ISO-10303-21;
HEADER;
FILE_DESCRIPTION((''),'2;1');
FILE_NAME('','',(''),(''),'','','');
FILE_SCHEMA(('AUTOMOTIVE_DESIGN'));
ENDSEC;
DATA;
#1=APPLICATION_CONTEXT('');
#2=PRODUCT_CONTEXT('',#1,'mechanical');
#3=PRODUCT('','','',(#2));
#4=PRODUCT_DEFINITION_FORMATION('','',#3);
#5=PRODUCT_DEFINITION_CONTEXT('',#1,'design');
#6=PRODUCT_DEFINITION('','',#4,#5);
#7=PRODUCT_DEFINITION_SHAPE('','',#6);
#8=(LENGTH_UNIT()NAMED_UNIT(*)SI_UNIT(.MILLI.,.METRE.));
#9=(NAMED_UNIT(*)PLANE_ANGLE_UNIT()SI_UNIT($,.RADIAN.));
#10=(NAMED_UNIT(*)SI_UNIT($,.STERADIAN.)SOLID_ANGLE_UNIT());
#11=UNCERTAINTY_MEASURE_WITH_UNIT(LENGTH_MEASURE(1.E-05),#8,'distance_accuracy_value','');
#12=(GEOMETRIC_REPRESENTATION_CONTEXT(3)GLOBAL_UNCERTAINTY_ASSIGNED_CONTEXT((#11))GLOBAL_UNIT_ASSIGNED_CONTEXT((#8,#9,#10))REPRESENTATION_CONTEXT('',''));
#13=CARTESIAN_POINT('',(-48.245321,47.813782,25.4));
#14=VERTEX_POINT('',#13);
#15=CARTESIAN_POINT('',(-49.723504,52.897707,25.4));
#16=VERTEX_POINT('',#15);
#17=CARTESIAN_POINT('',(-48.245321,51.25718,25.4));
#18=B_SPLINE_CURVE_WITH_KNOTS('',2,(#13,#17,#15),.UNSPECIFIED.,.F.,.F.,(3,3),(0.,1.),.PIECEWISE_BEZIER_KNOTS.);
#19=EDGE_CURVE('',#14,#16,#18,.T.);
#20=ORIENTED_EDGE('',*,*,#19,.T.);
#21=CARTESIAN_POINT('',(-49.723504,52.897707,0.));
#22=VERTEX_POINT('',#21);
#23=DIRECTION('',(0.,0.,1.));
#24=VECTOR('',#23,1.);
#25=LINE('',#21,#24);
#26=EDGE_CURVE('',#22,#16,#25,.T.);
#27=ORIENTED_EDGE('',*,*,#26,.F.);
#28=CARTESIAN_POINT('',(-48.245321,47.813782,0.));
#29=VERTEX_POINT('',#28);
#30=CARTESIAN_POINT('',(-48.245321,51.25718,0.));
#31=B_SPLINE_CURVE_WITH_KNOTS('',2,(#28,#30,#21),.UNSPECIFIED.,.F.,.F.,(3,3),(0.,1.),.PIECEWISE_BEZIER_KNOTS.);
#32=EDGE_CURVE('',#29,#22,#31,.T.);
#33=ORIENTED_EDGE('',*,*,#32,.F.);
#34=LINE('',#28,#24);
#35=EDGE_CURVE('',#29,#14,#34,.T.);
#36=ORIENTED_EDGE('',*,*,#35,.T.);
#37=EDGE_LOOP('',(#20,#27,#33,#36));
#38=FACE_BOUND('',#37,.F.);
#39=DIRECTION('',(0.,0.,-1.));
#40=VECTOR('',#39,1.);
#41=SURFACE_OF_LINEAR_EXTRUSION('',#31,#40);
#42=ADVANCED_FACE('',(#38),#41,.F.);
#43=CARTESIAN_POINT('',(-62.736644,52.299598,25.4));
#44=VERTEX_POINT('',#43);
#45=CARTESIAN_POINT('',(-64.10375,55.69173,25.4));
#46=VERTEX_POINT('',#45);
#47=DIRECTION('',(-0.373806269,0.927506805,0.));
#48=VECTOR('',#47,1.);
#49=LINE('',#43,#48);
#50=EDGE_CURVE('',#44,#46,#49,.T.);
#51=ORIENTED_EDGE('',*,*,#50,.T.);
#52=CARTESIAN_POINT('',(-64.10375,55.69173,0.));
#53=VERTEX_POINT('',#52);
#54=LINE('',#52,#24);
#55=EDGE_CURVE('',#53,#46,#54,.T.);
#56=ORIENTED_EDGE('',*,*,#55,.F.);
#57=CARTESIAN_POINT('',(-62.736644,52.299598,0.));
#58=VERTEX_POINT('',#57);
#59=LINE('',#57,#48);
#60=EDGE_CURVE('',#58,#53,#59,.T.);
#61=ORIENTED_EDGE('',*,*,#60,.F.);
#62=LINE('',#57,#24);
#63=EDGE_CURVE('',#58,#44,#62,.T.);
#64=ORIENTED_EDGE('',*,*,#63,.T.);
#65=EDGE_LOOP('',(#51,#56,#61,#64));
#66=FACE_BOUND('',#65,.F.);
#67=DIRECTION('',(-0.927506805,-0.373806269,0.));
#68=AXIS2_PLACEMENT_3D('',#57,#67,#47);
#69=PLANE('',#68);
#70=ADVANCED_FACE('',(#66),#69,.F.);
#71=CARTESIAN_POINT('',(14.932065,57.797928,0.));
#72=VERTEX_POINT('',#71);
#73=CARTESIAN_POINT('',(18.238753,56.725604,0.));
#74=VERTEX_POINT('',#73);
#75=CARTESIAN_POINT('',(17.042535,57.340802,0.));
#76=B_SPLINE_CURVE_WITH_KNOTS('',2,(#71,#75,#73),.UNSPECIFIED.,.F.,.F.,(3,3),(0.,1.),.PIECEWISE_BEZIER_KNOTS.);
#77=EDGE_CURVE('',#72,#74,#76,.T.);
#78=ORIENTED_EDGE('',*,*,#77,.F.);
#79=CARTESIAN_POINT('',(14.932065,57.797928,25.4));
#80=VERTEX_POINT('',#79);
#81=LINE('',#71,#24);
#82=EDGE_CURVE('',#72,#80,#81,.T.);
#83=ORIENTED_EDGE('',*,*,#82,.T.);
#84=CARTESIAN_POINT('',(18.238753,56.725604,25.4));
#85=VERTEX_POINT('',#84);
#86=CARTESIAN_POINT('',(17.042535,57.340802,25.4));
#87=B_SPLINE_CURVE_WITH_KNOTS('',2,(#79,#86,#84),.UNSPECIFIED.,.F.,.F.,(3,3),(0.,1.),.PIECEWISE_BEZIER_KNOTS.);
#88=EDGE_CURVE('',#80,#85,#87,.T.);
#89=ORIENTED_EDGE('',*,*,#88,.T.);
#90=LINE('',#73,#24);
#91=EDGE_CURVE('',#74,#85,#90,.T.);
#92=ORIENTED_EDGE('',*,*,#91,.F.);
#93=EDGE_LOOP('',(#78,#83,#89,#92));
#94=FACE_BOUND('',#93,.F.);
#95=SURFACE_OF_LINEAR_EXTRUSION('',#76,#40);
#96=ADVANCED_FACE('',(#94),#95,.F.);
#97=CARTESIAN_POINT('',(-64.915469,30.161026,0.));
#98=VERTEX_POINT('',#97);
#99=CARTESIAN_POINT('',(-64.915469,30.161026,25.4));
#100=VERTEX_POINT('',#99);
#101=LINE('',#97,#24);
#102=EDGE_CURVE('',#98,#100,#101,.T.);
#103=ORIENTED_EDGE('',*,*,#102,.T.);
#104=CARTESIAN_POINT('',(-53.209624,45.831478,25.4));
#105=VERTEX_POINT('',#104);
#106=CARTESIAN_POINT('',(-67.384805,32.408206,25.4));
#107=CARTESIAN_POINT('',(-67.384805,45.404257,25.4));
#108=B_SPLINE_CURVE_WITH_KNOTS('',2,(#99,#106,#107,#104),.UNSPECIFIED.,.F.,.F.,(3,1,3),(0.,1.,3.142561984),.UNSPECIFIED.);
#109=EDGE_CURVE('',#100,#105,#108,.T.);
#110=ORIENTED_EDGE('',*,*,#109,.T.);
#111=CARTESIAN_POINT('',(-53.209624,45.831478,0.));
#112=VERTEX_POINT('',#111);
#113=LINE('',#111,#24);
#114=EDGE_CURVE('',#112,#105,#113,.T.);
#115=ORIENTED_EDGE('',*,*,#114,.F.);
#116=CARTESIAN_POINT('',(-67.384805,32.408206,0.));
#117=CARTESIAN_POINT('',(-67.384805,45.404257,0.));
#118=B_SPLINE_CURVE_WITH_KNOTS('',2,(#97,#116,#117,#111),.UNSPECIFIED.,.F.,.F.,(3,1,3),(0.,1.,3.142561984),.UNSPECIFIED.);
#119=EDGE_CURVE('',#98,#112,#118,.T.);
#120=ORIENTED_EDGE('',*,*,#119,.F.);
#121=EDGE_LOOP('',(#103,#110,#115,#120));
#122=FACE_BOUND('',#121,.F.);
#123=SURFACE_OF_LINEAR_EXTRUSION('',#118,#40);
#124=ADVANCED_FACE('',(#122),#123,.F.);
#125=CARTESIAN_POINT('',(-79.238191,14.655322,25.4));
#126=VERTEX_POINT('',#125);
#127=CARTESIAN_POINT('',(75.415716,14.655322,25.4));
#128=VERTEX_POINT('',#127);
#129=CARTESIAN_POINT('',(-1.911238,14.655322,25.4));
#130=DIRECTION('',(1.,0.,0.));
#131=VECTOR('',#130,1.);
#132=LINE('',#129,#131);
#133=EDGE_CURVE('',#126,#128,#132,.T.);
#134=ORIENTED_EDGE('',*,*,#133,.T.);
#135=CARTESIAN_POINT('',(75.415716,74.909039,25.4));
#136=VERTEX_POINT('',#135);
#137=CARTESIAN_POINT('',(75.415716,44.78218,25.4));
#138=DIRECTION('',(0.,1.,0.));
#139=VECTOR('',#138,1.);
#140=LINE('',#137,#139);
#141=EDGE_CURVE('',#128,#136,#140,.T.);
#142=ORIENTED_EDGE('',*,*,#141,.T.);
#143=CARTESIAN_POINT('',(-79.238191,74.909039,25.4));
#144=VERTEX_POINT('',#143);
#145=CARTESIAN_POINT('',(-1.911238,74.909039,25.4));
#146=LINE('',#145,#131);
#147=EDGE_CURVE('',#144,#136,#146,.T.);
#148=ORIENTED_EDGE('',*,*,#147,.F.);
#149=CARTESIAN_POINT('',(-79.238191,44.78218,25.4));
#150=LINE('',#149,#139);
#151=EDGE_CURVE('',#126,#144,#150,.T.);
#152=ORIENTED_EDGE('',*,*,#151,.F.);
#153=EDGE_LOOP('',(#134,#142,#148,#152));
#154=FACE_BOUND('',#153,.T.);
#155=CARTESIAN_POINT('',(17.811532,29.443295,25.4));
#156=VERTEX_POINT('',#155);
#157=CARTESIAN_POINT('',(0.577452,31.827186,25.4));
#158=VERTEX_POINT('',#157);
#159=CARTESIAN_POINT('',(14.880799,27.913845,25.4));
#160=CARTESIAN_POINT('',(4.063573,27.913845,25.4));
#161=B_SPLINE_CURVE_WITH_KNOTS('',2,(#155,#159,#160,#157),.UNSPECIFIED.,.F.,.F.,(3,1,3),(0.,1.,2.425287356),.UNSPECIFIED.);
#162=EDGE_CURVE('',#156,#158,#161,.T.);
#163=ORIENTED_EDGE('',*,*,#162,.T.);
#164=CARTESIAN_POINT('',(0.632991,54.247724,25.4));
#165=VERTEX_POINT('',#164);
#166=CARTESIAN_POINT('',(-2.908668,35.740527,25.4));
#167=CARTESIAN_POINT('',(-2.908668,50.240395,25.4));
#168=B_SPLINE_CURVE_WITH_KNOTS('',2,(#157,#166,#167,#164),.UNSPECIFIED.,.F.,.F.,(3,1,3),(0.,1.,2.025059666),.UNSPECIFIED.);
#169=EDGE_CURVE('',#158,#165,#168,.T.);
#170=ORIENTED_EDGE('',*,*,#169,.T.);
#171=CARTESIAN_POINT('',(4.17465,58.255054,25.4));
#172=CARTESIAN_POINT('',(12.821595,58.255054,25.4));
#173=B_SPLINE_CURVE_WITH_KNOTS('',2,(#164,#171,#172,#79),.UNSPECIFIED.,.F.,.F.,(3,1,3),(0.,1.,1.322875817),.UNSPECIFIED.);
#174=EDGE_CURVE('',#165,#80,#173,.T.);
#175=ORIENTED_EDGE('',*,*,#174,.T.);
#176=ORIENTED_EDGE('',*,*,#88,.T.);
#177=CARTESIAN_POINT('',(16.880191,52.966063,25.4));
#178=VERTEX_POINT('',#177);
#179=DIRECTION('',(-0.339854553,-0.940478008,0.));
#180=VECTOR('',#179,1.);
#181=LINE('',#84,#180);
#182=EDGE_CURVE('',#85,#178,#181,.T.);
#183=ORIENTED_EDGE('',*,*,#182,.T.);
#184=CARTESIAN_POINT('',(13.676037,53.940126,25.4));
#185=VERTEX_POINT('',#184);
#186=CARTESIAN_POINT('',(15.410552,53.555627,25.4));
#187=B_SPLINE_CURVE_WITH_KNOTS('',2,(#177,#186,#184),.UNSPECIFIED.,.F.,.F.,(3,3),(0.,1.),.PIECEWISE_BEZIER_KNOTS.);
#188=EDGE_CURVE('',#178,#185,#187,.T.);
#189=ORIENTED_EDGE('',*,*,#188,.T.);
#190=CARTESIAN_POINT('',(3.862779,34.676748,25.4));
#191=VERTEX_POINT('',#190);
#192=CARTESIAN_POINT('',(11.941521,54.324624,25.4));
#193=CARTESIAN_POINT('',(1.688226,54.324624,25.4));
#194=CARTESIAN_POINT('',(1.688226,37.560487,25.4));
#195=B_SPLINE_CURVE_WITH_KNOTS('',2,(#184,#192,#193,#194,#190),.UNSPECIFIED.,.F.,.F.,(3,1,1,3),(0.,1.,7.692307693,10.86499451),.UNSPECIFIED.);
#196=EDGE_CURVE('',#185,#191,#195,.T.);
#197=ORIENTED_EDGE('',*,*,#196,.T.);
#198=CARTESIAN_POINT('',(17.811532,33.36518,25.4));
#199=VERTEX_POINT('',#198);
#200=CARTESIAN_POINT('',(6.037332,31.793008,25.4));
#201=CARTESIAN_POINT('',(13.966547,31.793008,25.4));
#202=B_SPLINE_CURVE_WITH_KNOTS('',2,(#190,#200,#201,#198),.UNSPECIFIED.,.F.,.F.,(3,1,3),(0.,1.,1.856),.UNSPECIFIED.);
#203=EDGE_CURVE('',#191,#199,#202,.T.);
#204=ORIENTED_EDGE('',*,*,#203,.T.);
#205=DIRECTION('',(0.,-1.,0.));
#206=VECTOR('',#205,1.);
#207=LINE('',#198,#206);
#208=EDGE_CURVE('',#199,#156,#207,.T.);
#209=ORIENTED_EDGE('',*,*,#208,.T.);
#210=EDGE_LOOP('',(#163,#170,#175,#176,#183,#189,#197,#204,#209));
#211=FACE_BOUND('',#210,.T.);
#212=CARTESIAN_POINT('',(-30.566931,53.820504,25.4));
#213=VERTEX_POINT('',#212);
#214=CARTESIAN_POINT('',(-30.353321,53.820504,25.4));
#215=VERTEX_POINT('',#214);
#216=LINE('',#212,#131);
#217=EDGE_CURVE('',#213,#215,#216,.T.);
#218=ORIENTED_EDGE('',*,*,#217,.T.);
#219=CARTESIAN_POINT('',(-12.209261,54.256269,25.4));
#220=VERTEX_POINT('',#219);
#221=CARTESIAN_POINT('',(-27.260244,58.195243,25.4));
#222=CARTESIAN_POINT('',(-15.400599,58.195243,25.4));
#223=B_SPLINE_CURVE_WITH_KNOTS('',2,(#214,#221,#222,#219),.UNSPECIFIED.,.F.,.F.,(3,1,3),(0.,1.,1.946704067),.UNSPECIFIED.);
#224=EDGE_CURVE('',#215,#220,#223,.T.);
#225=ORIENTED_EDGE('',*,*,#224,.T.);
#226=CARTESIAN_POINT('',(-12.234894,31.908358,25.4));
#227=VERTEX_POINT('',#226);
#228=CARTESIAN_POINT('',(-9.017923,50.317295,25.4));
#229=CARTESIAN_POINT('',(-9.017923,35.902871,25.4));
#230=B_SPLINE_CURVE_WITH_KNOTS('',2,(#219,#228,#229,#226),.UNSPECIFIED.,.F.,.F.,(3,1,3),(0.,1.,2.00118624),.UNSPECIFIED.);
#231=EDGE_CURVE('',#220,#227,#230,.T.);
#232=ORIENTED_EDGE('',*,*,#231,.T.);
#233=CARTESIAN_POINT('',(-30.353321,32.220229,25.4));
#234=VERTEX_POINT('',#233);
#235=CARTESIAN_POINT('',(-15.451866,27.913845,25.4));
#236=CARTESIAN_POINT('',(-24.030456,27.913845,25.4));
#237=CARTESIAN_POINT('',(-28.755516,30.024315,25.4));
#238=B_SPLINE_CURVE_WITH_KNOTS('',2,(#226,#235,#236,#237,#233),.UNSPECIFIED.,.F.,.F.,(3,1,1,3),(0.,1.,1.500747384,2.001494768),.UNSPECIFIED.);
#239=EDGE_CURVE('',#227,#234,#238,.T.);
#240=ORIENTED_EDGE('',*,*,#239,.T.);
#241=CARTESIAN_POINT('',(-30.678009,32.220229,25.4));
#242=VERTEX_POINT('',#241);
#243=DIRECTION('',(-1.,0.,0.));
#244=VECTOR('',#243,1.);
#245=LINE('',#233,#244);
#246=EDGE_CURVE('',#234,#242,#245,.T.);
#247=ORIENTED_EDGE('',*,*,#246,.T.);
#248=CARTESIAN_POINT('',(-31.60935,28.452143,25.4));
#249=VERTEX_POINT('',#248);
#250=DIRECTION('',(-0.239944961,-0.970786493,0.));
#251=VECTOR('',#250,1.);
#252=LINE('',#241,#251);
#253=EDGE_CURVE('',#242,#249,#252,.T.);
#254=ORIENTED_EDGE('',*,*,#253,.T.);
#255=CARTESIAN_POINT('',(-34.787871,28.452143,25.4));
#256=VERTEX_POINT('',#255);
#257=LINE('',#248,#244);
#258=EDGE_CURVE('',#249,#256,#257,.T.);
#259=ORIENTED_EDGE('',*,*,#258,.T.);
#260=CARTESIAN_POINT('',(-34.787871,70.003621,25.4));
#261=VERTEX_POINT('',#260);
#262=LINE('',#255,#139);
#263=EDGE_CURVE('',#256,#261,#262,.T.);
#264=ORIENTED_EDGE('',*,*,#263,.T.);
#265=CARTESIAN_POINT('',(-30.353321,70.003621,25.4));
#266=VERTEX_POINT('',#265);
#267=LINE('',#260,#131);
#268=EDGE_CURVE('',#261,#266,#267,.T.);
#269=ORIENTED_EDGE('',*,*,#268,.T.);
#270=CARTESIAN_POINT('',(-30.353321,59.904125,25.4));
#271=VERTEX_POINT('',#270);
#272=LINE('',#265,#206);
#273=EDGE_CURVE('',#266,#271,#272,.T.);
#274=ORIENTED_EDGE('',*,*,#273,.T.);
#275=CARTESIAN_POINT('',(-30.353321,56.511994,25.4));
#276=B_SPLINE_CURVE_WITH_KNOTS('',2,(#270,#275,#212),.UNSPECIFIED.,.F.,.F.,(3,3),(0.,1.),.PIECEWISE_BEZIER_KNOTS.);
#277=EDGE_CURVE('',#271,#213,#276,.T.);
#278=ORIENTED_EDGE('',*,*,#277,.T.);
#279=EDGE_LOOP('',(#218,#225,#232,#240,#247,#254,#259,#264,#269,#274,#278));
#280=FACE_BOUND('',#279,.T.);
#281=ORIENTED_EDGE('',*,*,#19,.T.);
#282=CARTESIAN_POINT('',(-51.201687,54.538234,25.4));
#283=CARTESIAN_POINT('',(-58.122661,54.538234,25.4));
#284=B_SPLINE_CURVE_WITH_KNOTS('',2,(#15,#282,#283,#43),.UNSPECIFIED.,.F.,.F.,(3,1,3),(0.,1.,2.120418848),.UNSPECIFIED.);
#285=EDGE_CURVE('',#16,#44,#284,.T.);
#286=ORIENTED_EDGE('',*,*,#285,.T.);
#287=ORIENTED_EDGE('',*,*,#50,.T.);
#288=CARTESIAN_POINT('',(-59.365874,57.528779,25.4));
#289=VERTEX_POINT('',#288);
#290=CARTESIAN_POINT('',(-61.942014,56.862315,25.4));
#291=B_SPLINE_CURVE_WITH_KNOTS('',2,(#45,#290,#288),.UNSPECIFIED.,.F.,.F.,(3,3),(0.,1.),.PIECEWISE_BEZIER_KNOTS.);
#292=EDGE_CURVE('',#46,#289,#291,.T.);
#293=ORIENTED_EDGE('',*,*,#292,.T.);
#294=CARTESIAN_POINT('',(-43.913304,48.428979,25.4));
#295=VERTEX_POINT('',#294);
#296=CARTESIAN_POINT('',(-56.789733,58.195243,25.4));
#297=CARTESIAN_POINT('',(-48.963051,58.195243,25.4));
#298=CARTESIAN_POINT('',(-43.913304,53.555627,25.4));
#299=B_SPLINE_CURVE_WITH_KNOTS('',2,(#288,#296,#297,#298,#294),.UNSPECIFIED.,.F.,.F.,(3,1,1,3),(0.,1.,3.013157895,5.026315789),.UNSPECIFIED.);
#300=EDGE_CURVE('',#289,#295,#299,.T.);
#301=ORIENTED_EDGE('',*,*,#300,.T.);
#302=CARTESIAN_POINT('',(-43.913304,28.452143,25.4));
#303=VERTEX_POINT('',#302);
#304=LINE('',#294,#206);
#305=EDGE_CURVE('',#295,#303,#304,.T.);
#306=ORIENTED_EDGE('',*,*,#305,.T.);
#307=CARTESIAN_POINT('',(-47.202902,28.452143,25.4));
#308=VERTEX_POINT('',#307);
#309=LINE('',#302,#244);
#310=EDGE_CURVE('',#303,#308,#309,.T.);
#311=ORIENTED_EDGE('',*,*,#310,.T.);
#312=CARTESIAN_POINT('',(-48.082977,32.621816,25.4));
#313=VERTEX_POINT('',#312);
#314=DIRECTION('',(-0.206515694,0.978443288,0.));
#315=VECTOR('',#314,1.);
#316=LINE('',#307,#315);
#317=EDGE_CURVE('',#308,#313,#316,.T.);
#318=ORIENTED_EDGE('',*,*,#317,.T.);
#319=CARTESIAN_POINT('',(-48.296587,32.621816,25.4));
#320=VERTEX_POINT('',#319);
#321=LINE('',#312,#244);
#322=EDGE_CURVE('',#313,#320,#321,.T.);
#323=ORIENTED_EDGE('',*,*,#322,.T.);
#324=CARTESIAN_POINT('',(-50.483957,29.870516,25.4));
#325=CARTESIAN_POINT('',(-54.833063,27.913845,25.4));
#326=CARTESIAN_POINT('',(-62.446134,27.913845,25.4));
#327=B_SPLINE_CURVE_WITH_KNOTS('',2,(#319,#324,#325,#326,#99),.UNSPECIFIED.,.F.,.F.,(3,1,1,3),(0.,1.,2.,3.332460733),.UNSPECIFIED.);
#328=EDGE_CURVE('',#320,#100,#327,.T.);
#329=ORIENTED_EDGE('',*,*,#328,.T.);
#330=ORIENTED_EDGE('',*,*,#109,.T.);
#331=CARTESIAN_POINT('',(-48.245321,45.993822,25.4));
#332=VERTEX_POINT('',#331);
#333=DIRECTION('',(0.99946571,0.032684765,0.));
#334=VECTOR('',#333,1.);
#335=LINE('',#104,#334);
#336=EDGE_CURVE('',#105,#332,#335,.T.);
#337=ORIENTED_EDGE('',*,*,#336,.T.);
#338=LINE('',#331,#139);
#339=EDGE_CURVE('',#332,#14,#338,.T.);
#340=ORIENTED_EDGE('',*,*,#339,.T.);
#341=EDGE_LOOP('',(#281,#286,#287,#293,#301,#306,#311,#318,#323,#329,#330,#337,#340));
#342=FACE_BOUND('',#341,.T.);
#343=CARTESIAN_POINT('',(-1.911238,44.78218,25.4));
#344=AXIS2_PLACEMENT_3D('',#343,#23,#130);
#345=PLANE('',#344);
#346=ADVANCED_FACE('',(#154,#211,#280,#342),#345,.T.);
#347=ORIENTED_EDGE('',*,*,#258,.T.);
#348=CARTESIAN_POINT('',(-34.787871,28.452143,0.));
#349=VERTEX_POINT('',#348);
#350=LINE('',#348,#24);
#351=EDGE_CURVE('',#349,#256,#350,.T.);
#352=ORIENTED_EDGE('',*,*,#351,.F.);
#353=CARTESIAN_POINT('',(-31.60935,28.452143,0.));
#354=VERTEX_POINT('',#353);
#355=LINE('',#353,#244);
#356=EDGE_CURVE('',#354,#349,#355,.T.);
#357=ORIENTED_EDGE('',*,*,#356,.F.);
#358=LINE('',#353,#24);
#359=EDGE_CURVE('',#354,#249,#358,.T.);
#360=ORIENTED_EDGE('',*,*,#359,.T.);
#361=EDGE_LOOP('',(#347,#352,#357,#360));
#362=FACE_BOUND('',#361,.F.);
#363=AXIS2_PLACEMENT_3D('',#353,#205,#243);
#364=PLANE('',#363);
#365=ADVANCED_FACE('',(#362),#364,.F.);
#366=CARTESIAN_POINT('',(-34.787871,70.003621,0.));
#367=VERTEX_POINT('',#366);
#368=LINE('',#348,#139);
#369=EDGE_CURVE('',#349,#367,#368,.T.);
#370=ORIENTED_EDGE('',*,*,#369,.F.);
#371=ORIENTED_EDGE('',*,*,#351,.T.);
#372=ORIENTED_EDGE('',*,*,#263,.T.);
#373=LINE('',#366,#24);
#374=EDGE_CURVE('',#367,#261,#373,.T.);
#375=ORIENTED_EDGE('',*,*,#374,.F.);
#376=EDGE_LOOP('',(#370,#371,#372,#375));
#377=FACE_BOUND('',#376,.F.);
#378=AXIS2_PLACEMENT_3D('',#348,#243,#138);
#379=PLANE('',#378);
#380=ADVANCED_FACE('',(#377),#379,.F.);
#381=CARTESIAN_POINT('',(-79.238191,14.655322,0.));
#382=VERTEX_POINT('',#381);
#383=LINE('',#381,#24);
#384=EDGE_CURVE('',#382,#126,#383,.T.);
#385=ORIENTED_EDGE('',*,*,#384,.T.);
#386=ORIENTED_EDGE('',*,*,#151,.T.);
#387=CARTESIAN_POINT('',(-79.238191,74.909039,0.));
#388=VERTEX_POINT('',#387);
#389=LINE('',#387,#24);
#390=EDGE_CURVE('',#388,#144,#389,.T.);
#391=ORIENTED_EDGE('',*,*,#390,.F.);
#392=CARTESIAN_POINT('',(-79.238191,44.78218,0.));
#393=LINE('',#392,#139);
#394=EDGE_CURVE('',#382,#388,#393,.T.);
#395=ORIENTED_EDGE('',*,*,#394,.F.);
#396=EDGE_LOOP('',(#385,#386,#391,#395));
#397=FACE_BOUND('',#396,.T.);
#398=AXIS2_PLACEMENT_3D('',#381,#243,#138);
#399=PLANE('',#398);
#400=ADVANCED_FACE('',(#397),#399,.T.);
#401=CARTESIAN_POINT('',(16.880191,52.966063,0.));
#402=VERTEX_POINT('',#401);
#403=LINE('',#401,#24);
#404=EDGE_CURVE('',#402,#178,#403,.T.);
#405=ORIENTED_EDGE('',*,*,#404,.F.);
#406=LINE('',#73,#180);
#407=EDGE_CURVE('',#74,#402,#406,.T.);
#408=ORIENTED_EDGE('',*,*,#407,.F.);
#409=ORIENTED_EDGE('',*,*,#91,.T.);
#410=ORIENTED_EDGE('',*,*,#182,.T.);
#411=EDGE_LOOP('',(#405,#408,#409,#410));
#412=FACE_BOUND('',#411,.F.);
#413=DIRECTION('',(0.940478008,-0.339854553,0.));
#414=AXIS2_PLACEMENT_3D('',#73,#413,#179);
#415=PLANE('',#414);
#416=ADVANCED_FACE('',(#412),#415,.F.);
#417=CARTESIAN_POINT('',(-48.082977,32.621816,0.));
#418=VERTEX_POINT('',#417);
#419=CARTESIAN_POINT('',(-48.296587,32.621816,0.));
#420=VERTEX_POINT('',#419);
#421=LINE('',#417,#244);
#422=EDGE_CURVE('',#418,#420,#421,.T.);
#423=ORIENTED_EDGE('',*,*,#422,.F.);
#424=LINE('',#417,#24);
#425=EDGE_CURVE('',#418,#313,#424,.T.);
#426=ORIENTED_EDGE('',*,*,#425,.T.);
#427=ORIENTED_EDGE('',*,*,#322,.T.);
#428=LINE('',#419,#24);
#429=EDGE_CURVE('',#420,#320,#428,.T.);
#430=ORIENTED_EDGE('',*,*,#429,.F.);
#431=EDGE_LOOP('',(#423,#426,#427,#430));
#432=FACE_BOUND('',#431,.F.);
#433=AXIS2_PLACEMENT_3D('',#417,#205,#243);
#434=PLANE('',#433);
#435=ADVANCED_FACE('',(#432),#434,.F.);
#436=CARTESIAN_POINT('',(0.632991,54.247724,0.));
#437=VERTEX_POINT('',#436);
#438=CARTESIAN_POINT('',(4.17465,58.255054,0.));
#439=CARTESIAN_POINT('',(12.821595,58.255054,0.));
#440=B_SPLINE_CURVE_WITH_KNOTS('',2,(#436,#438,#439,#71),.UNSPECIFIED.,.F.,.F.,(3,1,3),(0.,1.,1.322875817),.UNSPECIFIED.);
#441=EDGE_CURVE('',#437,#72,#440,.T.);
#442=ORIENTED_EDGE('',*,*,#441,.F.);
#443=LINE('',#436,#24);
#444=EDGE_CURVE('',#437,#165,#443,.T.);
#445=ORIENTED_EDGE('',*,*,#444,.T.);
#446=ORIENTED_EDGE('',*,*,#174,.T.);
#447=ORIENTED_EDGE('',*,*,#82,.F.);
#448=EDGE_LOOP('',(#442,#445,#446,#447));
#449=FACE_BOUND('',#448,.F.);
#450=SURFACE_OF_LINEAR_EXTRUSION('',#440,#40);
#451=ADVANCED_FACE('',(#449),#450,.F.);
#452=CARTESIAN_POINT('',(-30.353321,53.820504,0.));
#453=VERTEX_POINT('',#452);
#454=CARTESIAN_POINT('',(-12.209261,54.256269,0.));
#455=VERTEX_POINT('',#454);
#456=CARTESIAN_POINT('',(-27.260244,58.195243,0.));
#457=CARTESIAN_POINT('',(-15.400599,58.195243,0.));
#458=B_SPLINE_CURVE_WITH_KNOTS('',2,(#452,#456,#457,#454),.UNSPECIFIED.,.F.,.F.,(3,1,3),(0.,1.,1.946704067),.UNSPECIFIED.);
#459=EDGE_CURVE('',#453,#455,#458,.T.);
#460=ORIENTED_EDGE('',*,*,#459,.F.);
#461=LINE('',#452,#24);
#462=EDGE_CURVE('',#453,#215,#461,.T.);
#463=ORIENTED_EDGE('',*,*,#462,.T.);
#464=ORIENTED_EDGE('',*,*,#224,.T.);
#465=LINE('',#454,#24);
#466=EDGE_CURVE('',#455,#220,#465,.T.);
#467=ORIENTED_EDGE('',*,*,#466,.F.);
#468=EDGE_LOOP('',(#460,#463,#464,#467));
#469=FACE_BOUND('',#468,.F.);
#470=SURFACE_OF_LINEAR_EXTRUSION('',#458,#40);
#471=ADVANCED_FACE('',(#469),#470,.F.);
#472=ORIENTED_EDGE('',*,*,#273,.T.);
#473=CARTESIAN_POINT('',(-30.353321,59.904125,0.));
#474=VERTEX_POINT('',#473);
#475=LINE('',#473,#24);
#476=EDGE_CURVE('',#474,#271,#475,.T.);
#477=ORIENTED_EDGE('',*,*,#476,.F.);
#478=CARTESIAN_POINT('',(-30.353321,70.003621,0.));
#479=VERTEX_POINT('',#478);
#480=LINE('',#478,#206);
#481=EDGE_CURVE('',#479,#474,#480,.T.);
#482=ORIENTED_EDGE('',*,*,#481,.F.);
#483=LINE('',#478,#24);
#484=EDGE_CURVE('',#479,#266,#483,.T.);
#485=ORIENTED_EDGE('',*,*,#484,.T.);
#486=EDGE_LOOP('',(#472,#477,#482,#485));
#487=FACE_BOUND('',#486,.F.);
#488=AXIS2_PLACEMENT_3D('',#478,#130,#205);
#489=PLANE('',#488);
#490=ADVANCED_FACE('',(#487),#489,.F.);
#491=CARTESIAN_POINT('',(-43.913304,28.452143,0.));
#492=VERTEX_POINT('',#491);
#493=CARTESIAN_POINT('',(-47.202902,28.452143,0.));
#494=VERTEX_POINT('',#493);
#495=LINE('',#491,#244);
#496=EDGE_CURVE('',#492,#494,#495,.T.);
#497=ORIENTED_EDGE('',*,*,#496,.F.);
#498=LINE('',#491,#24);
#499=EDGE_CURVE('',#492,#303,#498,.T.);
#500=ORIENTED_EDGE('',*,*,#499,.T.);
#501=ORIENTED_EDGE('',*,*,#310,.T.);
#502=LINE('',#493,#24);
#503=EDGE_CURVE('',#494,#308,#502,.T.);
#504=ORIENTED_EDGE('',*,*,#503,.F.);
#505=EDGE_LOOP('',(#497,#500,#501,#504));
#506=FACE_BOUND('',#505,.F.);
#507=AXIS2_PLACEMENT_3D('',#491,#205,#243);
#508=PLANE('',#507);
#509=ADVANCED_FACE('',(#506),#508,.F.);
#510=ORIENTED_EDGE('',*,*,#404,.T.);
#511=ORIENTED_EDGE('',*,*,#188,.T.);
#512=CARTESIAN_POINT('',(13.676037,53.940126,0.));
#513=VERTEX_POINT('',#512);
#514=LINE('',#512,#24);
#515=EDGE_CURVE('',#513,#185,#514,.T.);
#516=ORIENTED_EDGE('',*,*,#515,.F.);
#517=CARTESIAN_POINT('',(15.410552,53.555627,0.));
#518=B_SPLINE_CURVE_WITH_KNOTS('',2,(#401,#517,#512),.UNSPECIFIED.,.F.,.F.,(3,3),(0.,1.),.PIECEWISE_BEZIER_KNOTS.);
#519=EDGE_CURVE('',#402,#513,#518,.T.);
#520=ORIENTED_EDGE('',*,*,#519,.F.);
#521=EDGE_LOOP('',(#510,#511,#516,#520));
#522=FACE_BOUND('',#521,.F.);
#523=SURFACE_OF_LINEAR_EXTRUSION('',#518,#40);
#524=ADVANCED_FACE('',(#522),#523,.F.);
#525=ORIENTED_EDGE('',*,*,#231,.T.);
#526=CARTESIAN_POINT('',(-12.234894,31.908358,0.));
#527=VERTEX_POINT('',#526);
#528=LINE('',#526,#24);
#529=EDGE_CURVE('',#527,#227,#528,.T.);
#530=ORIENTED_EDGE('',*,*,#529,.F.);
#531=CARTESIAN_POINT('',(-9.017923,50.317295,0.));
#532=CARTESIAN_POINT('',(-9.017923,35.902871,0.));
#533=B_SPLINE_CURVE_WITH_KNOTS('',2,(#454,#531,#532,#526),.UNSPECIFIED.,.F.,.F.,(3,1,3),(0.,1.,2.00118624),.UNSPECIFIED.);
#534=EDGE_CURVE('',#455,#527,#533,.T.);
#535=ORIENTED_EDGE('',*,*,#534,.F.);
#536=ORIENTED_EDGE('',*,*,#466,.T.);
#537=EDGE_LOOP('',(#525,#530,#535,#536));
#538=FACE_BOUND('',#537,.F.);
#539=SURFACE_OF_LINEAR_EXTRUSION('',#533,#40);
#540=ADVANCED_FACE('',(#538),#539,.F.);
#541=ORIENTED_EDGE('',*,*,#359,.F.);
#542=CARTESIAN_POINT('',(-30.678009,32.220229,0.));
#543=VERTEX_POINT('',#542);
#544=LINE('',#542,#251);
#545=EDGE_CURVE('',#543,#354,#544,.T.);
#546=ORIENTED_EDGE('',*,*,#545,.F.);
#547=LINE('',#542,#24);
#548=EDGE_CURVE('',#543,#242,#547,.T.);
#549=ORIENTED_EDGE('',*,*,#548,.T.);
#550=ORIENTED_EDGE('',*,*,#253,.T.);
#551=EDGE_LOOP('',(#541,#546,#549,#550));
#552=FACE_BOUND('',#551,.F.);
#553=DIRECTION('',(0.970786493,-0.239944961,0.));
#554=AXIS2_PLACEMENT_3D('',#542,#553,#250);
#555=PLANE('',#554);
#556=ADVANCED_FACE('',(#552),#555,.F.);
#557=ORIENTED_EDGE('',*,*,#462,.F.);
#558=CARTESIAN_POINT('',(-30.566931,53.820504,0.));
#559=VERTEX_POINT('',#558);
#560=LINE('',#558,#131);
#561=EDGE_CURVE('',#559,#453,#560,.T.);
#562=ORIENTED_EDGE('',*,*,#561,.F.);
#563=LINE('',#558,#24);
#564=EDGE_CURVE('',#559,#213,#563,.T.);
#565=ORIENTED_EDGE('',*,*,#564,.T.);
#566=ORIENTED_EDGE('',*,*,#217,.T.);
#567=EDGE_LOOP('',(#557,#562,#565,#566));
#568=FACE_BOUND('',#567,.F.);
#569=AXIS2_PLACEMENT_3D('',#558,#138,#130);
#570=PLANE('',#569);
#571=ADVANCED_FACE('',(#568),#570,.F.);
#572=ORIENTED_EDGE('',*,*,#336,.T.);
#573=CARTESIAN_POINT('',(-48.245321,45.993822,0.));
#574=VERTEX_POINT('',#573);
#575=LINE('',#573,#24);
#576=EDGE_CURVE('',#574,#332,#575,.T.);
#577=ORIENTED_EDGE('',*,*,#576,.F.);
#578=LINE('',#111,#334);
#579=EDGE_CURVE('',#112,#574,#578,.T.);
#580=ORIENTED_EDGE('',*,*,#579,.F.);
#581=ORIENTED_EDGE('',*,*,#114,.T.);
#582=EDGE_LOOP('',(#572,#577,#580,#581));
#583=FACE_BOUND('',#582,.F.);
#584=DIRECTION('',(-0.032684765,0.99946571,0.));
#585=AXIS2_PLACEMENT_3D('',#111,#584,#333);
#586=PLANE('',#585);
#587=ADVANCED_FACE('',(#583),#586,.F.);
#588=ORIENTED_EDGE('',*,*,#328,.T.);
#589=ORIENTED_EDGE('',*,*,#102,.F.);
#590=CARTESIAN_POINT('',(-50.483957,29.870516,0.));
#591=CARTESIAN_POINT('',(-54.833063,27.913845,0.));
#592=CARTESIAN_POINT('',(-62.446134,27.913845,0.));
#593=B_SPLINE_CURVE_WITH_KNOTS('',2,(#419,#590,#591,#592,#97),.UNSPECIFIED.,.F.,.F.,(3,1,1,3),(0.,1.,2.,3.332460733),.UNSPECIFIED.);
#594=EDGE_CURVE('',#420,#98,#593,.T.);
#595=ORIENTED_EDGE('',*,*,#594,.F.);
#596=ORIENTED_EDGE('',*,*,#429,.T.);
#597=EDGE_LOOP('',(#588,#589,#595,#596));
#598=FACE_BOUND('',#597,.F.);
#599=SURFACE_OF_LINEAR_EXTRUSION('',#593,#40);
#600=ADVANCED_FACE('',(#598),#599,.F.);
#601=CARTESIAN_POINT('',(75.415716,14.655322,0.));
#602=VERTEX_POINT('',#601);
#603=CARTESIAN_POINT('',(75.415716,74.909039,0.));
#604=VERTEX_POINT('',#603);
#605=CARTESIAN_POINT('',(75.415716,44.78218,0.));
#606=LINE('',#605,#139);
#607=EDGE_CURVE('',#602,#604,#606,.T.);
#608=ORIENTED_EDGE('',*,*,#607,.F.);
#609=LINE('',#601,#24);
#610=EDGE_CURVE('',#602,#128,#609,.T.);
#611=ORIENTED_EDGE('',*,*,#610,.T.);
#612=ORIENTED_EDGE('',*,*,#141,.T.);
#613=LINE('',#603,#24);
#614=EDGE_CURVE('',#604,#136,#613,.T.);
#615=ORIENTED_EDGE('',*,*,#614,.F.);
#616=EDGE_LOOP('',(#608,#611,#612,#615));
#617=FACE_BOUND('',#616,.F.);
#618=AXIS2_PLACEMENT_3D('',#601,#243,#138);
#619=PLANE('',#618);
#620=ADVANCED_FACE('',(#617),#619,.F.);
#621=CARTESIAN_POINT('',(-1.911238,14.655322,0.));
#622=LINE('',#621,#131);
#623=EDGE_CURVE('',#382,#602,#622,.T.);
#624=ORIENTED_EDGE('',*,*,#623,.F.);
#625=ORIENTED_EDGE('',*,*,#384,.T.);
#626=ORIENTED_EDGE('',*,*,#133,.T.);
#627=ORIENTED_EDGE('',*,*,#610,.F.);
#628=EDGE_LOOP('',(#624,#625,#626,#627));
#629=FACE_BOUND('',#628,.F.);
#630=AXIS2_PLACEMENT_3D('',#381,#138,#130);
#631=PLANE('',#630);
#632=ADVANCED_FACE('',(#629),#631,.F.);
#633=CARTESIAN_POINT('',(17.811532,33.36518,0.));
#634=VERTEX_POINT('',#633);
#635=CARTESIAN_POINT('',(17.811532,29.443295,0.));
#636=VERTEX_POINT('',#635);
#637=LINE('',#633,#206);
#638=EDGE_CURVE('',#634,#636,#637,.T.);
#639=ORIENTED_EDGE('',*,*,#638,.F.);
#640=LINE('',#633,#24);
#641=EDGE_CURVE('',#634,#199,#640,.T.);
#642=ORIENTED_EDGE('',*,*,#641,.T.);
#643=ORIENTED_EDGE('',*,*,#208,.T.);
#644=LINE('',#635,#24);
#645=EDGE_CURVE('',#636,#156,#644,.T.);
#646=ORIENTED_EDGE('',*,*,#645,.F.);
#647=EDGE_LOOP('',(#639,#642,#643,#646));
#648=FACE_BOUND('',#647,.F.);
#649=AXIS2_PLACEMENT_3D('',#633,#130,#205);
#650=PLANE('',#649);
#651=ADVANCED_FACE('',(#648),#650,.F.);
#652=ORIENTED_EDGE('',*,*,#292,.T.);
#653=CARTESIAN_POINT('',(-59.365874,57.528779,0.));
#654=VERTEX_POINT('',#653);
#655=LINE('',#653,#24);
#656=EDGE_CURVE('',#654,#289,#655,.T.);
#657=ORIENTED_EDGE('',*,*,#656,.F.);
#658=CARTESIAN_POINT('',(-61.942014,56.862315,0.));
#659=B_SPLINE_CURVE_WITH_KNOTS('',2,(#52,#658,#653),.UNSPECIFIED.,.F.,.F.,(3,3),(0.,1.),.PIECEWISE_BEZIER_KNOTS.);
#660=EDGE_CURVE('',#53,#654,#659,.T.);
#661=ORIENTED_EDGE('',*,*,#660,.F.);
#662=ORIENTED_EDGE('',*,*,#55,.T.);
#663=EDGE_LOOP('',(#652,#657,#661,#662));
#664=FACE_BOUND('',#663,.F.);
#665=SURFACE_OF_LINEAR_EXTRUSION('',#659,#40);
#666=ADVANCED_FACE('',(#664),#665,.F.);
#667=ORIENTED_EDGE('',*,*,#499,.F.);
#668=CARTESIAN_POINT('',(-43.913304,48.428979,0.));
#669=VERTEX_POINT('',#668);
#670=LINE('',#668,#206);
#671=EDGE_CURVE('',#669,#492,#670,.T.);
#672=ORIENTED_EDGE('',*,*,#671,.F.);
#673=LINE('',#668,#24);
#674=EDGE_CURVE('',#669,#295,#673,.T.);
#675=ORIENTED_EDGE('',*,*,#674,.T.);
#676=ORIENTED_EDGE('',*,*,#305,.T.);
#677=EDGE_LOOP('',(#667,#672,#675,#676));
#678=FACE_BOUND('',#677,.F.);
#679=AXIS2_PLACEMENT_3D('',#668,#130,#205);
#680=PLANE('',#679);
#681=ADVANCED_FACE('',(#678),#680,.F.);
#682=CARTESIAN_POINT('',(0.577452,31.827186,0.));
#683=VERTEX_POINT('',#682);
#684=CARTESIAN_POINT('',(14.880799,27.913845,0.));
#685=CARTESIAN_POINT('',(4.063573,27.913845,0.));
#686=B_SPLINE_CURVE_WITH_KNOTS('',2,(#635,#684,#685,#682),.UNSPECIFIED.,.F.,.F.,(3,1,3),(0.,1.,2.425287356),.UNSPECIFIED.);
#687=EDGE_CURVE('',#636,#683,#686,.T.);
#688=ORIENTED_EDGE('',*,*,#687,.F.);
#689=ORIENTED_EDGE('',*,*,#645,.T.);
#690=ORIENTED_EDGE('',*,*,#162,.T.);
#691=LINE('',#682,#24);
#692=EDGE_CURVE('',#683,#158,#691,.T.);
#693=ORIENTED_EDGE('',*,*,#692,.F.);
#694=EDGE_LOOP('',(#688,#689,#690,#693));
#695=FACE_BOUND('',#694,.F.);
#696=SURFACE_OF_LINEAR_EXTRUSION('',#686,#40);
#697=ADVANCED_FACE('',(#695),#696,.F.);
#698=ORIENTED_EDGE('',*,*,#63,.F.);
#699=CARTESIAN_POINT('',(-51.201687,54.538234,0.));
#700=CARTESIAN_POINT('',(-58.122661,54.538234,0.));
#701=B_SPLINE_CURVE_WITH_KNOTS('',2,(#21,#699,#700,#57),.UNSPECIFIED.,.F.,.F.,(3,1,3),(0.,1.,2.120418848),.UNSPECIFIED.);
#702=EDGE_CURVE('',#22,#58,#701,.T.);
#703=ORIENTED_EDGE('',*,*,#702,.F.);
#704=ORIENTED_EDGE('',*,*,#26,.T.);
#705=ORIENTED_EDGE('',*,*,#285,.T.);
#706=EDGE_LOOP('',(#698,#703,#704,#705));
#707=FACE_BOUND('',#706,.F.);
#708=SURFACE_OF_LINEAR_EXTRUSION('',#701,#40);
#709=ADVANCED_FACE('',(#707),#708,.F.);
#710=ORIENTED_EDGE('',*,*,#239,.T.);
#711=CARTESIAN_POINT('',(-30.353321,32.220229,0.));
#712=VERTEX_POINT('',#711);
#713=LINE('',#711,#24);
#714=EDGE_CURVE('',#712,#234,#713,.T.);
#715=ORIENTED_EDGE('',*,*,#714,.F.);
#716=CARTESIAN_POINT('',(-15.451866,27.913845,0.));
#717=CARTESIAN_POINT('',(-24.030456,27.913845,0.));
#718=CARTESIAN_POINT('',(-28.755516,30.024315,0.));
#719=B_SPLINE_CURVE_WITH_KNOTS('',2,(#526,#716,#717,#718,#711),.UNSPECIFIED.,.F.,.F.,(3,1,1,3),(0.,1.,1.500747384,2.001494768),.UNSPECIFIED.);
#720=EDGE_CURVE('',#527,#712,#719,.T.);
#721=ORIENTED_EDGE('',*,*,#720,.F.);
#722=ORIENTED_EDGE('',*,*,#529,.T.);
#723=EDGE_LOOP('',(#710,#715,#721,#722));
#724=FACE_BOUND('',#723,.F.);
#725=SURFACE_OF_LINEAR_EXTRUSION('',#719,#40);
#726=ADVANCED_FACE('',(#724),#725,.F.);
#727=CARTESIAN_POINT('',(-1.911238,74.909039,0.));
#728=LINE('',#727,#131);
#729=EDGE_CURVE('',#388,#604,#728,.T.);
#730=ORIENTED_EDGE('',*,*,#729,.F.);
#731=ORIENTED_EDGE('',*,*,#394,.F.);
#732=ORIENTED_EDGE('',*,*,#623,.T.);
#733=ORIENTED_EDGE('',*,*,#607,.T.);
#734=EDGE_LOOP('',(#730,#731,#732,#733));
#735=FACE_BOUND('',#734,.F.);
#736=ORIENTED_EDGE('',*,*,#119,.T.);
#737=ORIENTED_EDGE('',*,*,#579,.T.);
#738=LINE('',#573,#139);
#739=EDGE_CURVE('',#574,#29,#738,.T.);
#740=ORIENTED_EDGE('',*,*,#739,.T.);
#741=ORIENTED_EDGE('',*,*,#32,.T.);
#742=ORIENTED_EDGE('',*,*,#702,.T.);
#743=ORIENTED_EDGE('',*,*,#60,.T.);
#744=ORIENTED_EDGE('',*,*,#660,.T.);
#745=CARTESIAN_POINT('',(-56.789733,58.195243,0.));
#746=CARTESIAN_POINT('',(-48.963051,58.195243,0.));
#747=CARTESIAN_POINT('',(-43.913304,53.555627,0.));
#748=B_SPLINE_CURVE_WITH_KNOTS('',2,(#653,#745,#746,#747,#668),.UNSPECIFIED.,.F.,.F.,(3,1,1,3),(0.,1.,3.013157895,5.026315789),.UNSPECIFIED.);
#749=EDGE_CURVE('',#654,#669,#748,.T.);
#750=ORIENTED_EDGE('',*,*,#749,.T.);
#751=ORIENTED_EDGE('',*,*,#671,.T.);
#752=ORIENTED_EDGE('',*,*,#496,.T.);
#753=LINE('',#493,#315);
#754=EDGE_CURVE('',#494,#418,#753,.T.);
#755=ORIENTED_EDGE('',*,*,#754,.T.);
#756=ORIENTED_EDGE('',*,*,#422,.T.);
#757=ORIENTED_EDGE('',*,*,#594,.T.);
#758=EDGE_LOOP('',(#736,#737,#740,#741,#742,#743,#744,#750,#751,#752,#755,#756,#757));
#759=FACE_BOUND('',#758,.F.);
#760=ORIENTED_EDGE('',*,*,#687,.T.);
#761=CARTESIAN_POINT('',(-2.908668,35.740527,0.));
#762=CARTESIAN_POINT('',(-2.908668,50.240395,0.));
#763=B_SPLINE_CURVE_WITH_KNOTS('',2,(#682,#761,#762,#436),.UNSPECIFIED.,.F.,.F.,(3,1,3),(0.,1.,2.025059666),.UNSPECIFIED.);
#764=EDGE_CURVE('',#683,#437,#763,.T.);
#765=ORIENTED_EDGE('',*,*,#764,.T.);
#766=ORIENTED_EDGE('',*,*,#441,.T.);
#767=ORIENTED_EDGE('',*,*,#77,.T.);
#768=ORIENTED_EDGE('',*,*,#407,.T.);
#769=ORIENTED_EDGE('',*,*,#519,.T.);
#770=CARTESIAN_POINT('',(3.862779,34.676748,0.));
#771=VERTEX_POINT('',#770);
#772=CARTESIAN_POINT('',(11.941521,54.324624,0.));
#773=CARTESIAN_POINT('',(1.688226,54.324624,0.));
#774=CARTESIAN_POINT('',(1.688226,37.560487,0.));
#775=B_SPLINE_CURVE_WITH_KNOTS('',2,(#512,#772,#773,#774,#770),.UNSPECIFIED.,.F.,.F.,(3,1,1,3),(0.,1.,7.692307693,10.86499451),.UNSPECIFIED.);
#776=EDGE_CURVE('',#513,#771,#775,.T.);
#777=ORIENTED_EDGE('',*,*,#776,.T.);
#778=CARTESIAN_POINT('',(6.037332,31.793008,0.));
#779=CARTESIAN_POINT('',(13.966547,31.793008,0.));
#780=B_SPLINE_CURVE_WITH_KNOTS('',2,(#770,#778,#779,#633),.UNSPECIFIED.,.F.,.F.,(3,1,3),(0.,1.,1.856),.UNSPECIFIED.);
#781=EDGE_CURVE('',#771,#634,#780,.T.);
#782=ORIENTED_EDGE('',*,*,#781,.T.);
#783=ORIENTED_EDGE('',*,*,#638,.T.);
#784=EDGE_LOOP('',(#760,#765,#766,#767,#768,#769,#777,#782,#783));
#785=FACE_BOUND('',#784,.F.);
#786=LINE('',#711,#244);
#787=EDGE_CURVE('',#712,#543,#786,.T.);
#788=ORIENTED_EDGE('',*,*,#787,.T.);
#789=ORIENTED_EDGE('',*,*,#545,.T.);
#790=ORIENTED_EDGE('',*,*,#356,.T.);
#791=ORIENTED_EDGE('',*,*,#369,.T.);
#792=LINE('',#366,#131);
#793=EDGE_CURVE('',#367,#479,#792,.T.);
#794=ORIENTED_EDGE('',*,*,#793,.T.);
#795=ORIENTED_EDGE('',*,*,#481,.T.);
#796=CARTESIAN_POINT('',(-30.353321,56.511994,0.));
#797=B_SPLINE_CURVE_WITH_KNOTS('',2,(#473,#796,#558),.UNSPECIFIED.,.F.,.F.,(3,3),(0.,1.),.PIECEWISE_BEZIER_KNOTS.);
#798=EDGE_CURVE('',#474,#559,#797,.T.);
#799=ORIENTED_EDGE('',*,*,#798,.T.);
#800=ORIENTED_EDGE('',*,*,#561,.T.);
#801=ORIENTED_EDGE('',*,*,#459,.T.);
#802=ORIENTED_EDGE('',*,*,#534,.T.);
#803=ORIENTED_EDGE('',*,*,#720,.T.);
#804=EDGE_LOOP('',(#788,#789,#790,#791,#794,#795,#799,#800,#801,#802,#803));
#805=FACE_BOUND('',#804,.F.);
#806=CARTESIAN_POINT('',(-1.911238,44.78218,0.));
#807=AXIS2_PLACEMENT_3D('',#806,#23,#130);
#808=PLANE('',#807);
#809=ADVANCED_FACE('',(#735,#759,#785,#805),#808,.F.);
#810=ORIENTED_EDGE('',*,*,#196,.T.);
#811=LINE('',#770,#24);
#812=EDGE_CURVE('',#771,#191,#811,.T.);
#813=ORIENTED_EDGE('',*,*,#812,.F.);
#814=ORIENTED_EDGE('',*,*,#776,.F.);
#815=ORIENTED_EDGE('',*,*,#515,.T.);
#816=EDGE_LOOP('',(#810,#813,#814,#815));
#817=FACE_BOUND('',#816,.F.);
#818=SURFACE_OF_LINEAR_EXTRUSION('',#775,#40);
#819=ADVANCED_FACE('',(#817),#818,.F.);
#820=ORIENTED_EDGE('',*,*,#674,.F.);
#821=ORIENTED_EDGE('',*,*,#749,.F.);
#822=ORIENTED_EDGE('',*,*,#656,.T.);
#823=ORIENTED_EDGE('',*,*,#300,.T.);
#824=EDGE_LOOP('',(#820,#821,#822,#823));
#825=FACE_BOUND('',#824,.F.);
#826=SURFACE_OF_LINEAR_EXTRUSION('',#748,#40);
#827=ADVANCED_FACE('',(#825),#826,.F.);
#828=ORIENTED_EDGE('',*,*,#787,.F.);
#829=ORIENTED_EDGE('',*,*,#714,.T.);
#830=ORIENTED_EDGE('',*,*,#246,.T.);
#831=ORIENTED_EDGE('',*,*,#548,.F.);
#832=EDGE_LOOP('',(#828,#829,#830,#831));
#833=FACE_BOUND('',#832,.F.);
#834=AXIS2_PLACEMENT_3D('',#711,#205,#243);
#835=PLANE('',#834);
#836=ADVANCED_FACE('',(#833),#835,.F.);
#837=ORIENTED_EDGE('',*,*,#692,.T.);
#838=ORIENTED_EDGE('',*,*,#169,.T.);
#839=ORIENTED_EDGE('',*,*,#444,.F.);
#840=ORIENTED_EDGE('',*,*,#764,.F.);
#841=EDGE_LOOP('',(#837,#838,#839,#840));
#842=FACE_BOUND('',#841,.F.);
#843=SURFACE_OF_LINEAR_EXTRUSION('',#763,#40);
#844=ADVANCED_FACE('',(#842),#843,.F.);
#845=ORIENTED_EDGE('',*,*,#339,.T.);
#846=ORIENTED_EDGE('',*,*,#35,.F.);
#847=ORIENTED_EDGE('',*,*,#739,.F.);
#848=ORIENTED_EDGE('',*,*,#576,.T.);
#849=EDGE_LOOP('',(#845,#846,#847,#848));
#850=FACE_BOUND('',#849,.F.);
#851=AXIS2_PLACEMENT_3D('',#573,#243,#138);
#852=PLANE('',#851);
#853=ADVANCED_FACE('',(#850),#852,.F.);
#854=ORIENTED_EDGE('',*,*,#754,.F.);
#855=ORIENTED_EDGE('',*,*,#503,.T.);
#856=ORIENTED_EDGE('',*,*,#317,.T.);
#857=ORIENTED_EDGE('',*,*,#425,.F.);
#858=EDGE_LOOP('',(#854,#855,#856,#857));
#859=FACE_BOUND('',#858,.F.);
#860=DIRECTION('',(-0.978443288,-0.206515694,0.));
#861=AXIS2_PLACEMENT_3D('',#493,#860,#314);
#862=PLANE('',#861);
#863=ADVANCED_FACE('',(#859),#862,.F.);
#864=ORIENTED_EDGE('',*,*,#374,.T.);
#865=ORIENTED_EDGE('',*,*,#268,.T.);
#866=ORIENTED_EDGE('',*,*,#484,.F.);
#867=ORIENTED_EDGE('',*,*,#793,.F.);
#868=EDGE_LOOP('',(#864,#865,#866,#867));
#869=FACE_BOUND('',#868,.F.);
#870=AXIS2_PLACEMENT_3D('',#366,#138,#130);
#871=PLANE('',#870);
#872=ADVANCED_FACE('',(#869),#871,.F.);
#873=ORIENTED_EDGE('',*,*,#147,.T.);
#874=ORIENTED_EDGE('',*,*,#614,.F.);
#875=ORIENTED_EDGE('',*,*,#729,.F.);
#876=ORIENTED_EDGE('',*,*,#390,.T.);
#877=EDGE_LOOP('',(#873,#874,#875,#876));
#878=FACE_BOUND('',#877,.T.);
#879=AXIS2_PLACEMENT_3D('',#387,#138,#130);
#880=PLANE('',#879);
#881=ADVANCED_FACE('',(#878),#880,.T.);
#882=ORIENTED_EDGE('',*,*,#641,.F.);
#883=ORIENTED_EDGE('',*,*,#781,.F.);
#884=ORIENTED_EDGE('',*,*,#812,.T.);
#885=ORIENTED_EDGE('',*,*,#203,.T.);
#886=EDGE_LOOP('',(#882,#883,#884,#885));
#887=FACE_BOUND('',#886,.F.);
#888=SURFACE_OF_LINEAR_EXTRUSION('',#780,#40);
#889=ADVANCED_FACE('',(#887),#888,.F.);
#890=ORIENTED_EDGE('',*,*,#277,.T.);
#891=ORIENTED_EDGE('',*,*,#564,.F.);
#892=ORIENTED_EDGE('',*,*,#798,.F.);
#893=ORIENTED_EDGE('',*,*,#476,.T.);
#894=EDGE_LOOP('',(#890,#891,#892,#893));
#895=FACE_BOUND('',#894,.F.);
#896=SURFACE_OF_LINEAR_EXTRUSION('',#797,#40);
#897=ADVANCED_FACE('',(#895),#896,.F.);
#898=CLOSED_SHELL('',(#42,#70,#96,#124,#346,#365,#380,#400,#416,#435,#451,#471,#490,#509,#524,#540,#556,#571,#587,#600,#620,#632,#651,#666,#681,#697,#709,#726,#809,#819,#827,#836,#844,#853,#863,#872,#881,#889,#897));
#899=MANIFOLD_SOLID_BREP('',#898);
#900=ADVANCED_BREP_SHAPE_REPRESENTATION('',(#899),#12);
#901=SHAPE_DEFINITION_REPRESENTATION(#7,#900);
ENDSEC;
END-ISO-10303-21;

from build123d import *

# Parameters (mm, degrees)
F1_W     = 154.6539068222
F1_H     = 60.2537170053
F2_DEPTH = 25.4


with BuildPart() as f2:
    # F1 (on face) → F2 (new body)
    with BuildSketch(Plane.XY):
        with Locations((-1.9112378359, 44.7821803391)):
            Rectangle(F1_W, F1_H)
        with BuildLine():
            Line((-43.9133035187, 28.4521430731), (-47.2029023286, 28.4521430731))
            Line((-47.2029023286, 28.4521430731), (-48.0829768154, 32.6218163698))
            Line((-48.0829768154, 32.6218163698), (-48.2965871278, 32.6218163698))
            add(Edge.make_bspline(
                [(-48.2965871278, 32.6218163698), (-50.4839567261, 29.870515547), (-52.6585097056, 28.8921803165)],
                knots=[0, 0, 0, 1, 1, 1], degree=2))
            add(Edge.make_bspline(
                [(-52.6585097056, 28.8921803165), (-54.8330626851, 27.913845086), (-58.0970282576, 27.913845086)],
                knots=[0, 0, 0, 1, 1, 1], degree=2))
            add(Edge.make_bspline(
                [(-58.0970282576, 27.913845086), (-62.4461342167, 27.913845086), (-64.9154694272, 30.1610255717)],
                knots=[0, 0, 0, 1, 1, 1], degree=2))
            add(Edge.make_bspline(
                [(-64.9154694272, 30.1610255717), (-67.3848046378, 32.4082060575), (-67.3848046378, 36.5437017042)],
                knots=[0, 0, 0, 1, 1, 1], degree=2))
            add(Edge.make_bspline(
                [(-67.3848046378, 36.5437017042), (-67.3848046378, 45.4042574598), (-53.2096243114, 45.8314780844)],
                knots=[0, 0, 0, 1, 1, 1], degree=2))
            Line((-53.2096243114, 45.8314780844), (-48.2453206528, 45.9938219218))
            Line((-48.2453206528, 45.9938219218), (-48.2453206528, 47.8137817829))
            add(Edge.make_bspline(
                [(-48.2453206528, 47.8137817829), (-48.2453206528, 51.2571800177), (-49.7235040142, 52.8977072164)],
                knots=[0, 0, 0, 1, 1, 1], degree=2))
            add(Edge.make_bspline(
                [(-49.7235040142, 52.8977072164), (-51.2016873755, 54.5382344151), (-54.4656529479, 54.5382344151)],
                knots=[0, 0, 0, 1, 1, 1], degree=2))
            add(Edge.make_bspline(
                [(-54.4656529479, 54.5382344151), (-58.1226614951, 54.5382344151), (-62.7366442414, 52.2995983419)],
                knots=[0, 0, 0, 1, 1, 1], degree=2))
            Line((-62.7366442414, 52.2995983419), (-64.1037502404, 55.6917301017))
            add(Edge.make_bspline(
                [(-64.1037502404, 55.6917301017), (-61.9420138796, 56.8623146133), (-59.3658735128, 57.5287787878)],
                knots=[0, 0, 0, 1, 1, 1], degree=2))
            add(Edge.make_bspline(
                [(-59.3658735128, 57.5287787878), (-56.7897331461, 58.1952429622), (-54.1922317481, 58.1952429622)],
                knots=[0, 0, 0, 1, 1, 1], degree=2))
            add(Edge.make_bspline(
                [(-54.1922317481, 58.1952429622), (-48.9630513023, 58.1952429622), (-46.4381774105, 55.8754349703)],
                knots=[0, 0, 0, 1, 1, 1], degree=2))
            add(Edge.make_bspline(
                [(-46.4381774105, 55.8754349703), (-43.9133035187, 53.5556269784), (-43.9133035187, 48.4289794824)],
                knots=[0, 0, 0, 1, 1, 1], degree=2))
            Line((-43.9133035187, 48.4289794824), (-43.9133035187, 28.4521430731))
        make_face(mode=Mode.SUBTRACT)
        with BuildLine():
            add(Edge.make_bspline(
                [(17.8115323328, 29.4432949223), (14.8807988476, 27.913845086), (10.4206155261, 27.913845086)],
                knots=[0, 0, 0, 1, 1, 1], degree=2))
            add(Edge.make_bspline(
                [(10.4206155261, 27.913845086), (4.0635726311, 27.913845086), (0.5774523339, 31.8271860079)],
                knots=[0, 0, 0, 1, 1, 1], degree=2))
            add(Edge.make_bspline(
                [(0.5774523339, 31.8271860079), (-2.9086679634, 35.7405269299), (-2.9086679634, 42.9007445992)],
                knots=[0, 0, 0, 1, 1, 1], degree=2))
            add(Edge.make_bspline(
                [(-2.9086679634, 42.9007445992), (-2.9086679634, 50.240394931), (0.6329910151, 54.2477243903)],
                knots=[0, 0, 0, 1, 1, 1], degree=2))
            add(Edge.make_bspline(
                [(0.6329910151, 54.2477243903), (4.1746499935, 58.2550538497), (10.7111255509, 58.2550538497)],
                knots=[0, 0, 0, 1, 1, 1], degree=2))
            add(Edge.make_bspline(
                [(10.7111255509, 58.2550538497), (12.8215954367, 58.2550538497), (14.9320653226, 57.7979277813)],
                knots=[0, 0, 0, 1, 1, 1], degree=2))
            add(Edge.make_bspline(
                [(14.9320653226, 57.7979277813), (17.0425352084, 57.3408017129), (18.2387529575, 56.7256040134)],
                knots=[0, 0, 0, 1, 1, 1], degree=2))
            Line((18.2387529575, 56.7256040134), (16.8801913711, 52.9660625163))
            add(Edge.make_bspline(
                [(16.8801913711, 52.9660625163), (15.4105524222, 53.5556269784), (13.6760366861, 53.9401255406)],
                knots=[0, 0, 0, 1, 1, 1], degree=2))
            add(Edge.make_bspline(
                [(13.6760366861, 53.9401255406), (11.9415209499, 54.3246241028), (10.608592601, 54.3246241028)],
                knots=[0, 0, 0, 1, 1, 1], degree=2))
            add(Edge.make_bspline(
                [(10.608592601, 54.3246241028), (1.688225958, 54.3246241028), (1.688225958, 42.9520110742)],
                knots=[0, 0, 0, 1, 1, 1], degree=2))
            add(Edge.make_bspline(
                [(1.688225958, 42.9520110742), (1.688225958, 37.5604867909), (3.8627789375, 34.6767475744)],
                knots=[0, 0, 0, 1, 1, 1], degree=2))
            add(Edge.make_bspline(
                [(3.8627789375, 34.6767475744), (6.0373319171, 31.793008358), (10.3095381637, 31.793008358)],
                knots=[0, 0, 0, 1, 1, 1], degree=2))
            add(Edge.make_bspline(
                [(10.3095381637, 31.793008358), (13.9665467108, 31.793008358), (17.8115323328, 33.3651802567)],
                knots=[0, 0, 0, 1, 1, 1], degree=2))
            Line((17.8115323328, 33.3651802567), (17.8115323328, 29.4432949223))
        make_face(mode=Mode.SUBTRACT)
        with BuildLine():
            add(Edge.make_bspline(
                [(-30.3533208919, 53.8205037657), (-27.2602435693, 58.1952429622), (-21.1680774616, 58.1952429622)],
                knots=[0, 0, 0, 1, 1, 1], degree=2))
            add(Edge.make_bspline(
                [(-21.1680774616, 58.1952429622), (-15.4005990286, 58.1952429622), (-12.2092609624, 54.2562688028)],
                knots=[0, 0, 0, 1, 1, 1], degree=2))
            add(Edge.make_bspline(
                [(-12.2092609624, 54.2562688028), (-9.0179228961, 50.3172946434), (-9.0179228961, 43.1143549116)],
                knots=[0, 0, 0, 1, 1, 1], degree=2))
            add(Edge.make_bspline(
                [(-9.0179228961, 43.1143549116), (-9.0179228961, 35.9028707672), (-12.2348941998, 31.9083579266)],
                knots=[0, 0, 0, 1, 1, 1], degree=2))
            add(Edge.make_bspline(
                [(-12.2348941998, 31.9083579266), (-15.4518655036, 27.913845086), (-21.1680774616, 27.913845086)],
                knots=[0, 0, 0, 1, 1, 1], degree=2))
            add(Edge.make_bspline(
                [(-21.1680774616, 27.913845086), (-24.0304556468, 27.913845086), (-26.3929857012, 28.9690800289)],
                knots=[0, 0, 0, 1, 1, 1], degree=2))
            add(Edge.make_bspline(
                [(-26.3929857012, 28.9690800289), (-28.7555157556, 30.0243149718), (-30.3533208919, 32.2202289826)],
                knots=[0, 0, 0, 1, 1, 1], degree=2))
            Line((-30.3533208919, 32.2202289826), (-30.6780085666, 32.2202289826))
            Line((-30.6780085666, 32.2202289826), (-31.6093495284, 28.4521430731))
            Line((-31.6093495284, 28.4521430731), (-34.7878709759, 28.4521430731))
            Line((-34.7878709759, 28.4521430731), (-34.7878709759, 70.003621028))
            Line((-34.7878709759, 70.003621028), (-30.3533208919, 70.003621028))
            Line((-30.3533208919, 70.003621028), (-30.3533208919, 59.9041254609))
            add(Edge.make_bspline(
                [(-30.3533208919, 59.9041254609), (-30.3533208919, 56.5119937011), (-30.5669312042, 53.8205037657)],
                knots=[0, 0, 0, 1, 1, 1], degree=2))
            Line((-30.5669312042, 53.8205037657), (-30.3533208919, 53.8205037657))
        make_face(mode=Mode.SUBTRACT)
    extrude(amount=F2_DEPTH)


solid = f2.part
